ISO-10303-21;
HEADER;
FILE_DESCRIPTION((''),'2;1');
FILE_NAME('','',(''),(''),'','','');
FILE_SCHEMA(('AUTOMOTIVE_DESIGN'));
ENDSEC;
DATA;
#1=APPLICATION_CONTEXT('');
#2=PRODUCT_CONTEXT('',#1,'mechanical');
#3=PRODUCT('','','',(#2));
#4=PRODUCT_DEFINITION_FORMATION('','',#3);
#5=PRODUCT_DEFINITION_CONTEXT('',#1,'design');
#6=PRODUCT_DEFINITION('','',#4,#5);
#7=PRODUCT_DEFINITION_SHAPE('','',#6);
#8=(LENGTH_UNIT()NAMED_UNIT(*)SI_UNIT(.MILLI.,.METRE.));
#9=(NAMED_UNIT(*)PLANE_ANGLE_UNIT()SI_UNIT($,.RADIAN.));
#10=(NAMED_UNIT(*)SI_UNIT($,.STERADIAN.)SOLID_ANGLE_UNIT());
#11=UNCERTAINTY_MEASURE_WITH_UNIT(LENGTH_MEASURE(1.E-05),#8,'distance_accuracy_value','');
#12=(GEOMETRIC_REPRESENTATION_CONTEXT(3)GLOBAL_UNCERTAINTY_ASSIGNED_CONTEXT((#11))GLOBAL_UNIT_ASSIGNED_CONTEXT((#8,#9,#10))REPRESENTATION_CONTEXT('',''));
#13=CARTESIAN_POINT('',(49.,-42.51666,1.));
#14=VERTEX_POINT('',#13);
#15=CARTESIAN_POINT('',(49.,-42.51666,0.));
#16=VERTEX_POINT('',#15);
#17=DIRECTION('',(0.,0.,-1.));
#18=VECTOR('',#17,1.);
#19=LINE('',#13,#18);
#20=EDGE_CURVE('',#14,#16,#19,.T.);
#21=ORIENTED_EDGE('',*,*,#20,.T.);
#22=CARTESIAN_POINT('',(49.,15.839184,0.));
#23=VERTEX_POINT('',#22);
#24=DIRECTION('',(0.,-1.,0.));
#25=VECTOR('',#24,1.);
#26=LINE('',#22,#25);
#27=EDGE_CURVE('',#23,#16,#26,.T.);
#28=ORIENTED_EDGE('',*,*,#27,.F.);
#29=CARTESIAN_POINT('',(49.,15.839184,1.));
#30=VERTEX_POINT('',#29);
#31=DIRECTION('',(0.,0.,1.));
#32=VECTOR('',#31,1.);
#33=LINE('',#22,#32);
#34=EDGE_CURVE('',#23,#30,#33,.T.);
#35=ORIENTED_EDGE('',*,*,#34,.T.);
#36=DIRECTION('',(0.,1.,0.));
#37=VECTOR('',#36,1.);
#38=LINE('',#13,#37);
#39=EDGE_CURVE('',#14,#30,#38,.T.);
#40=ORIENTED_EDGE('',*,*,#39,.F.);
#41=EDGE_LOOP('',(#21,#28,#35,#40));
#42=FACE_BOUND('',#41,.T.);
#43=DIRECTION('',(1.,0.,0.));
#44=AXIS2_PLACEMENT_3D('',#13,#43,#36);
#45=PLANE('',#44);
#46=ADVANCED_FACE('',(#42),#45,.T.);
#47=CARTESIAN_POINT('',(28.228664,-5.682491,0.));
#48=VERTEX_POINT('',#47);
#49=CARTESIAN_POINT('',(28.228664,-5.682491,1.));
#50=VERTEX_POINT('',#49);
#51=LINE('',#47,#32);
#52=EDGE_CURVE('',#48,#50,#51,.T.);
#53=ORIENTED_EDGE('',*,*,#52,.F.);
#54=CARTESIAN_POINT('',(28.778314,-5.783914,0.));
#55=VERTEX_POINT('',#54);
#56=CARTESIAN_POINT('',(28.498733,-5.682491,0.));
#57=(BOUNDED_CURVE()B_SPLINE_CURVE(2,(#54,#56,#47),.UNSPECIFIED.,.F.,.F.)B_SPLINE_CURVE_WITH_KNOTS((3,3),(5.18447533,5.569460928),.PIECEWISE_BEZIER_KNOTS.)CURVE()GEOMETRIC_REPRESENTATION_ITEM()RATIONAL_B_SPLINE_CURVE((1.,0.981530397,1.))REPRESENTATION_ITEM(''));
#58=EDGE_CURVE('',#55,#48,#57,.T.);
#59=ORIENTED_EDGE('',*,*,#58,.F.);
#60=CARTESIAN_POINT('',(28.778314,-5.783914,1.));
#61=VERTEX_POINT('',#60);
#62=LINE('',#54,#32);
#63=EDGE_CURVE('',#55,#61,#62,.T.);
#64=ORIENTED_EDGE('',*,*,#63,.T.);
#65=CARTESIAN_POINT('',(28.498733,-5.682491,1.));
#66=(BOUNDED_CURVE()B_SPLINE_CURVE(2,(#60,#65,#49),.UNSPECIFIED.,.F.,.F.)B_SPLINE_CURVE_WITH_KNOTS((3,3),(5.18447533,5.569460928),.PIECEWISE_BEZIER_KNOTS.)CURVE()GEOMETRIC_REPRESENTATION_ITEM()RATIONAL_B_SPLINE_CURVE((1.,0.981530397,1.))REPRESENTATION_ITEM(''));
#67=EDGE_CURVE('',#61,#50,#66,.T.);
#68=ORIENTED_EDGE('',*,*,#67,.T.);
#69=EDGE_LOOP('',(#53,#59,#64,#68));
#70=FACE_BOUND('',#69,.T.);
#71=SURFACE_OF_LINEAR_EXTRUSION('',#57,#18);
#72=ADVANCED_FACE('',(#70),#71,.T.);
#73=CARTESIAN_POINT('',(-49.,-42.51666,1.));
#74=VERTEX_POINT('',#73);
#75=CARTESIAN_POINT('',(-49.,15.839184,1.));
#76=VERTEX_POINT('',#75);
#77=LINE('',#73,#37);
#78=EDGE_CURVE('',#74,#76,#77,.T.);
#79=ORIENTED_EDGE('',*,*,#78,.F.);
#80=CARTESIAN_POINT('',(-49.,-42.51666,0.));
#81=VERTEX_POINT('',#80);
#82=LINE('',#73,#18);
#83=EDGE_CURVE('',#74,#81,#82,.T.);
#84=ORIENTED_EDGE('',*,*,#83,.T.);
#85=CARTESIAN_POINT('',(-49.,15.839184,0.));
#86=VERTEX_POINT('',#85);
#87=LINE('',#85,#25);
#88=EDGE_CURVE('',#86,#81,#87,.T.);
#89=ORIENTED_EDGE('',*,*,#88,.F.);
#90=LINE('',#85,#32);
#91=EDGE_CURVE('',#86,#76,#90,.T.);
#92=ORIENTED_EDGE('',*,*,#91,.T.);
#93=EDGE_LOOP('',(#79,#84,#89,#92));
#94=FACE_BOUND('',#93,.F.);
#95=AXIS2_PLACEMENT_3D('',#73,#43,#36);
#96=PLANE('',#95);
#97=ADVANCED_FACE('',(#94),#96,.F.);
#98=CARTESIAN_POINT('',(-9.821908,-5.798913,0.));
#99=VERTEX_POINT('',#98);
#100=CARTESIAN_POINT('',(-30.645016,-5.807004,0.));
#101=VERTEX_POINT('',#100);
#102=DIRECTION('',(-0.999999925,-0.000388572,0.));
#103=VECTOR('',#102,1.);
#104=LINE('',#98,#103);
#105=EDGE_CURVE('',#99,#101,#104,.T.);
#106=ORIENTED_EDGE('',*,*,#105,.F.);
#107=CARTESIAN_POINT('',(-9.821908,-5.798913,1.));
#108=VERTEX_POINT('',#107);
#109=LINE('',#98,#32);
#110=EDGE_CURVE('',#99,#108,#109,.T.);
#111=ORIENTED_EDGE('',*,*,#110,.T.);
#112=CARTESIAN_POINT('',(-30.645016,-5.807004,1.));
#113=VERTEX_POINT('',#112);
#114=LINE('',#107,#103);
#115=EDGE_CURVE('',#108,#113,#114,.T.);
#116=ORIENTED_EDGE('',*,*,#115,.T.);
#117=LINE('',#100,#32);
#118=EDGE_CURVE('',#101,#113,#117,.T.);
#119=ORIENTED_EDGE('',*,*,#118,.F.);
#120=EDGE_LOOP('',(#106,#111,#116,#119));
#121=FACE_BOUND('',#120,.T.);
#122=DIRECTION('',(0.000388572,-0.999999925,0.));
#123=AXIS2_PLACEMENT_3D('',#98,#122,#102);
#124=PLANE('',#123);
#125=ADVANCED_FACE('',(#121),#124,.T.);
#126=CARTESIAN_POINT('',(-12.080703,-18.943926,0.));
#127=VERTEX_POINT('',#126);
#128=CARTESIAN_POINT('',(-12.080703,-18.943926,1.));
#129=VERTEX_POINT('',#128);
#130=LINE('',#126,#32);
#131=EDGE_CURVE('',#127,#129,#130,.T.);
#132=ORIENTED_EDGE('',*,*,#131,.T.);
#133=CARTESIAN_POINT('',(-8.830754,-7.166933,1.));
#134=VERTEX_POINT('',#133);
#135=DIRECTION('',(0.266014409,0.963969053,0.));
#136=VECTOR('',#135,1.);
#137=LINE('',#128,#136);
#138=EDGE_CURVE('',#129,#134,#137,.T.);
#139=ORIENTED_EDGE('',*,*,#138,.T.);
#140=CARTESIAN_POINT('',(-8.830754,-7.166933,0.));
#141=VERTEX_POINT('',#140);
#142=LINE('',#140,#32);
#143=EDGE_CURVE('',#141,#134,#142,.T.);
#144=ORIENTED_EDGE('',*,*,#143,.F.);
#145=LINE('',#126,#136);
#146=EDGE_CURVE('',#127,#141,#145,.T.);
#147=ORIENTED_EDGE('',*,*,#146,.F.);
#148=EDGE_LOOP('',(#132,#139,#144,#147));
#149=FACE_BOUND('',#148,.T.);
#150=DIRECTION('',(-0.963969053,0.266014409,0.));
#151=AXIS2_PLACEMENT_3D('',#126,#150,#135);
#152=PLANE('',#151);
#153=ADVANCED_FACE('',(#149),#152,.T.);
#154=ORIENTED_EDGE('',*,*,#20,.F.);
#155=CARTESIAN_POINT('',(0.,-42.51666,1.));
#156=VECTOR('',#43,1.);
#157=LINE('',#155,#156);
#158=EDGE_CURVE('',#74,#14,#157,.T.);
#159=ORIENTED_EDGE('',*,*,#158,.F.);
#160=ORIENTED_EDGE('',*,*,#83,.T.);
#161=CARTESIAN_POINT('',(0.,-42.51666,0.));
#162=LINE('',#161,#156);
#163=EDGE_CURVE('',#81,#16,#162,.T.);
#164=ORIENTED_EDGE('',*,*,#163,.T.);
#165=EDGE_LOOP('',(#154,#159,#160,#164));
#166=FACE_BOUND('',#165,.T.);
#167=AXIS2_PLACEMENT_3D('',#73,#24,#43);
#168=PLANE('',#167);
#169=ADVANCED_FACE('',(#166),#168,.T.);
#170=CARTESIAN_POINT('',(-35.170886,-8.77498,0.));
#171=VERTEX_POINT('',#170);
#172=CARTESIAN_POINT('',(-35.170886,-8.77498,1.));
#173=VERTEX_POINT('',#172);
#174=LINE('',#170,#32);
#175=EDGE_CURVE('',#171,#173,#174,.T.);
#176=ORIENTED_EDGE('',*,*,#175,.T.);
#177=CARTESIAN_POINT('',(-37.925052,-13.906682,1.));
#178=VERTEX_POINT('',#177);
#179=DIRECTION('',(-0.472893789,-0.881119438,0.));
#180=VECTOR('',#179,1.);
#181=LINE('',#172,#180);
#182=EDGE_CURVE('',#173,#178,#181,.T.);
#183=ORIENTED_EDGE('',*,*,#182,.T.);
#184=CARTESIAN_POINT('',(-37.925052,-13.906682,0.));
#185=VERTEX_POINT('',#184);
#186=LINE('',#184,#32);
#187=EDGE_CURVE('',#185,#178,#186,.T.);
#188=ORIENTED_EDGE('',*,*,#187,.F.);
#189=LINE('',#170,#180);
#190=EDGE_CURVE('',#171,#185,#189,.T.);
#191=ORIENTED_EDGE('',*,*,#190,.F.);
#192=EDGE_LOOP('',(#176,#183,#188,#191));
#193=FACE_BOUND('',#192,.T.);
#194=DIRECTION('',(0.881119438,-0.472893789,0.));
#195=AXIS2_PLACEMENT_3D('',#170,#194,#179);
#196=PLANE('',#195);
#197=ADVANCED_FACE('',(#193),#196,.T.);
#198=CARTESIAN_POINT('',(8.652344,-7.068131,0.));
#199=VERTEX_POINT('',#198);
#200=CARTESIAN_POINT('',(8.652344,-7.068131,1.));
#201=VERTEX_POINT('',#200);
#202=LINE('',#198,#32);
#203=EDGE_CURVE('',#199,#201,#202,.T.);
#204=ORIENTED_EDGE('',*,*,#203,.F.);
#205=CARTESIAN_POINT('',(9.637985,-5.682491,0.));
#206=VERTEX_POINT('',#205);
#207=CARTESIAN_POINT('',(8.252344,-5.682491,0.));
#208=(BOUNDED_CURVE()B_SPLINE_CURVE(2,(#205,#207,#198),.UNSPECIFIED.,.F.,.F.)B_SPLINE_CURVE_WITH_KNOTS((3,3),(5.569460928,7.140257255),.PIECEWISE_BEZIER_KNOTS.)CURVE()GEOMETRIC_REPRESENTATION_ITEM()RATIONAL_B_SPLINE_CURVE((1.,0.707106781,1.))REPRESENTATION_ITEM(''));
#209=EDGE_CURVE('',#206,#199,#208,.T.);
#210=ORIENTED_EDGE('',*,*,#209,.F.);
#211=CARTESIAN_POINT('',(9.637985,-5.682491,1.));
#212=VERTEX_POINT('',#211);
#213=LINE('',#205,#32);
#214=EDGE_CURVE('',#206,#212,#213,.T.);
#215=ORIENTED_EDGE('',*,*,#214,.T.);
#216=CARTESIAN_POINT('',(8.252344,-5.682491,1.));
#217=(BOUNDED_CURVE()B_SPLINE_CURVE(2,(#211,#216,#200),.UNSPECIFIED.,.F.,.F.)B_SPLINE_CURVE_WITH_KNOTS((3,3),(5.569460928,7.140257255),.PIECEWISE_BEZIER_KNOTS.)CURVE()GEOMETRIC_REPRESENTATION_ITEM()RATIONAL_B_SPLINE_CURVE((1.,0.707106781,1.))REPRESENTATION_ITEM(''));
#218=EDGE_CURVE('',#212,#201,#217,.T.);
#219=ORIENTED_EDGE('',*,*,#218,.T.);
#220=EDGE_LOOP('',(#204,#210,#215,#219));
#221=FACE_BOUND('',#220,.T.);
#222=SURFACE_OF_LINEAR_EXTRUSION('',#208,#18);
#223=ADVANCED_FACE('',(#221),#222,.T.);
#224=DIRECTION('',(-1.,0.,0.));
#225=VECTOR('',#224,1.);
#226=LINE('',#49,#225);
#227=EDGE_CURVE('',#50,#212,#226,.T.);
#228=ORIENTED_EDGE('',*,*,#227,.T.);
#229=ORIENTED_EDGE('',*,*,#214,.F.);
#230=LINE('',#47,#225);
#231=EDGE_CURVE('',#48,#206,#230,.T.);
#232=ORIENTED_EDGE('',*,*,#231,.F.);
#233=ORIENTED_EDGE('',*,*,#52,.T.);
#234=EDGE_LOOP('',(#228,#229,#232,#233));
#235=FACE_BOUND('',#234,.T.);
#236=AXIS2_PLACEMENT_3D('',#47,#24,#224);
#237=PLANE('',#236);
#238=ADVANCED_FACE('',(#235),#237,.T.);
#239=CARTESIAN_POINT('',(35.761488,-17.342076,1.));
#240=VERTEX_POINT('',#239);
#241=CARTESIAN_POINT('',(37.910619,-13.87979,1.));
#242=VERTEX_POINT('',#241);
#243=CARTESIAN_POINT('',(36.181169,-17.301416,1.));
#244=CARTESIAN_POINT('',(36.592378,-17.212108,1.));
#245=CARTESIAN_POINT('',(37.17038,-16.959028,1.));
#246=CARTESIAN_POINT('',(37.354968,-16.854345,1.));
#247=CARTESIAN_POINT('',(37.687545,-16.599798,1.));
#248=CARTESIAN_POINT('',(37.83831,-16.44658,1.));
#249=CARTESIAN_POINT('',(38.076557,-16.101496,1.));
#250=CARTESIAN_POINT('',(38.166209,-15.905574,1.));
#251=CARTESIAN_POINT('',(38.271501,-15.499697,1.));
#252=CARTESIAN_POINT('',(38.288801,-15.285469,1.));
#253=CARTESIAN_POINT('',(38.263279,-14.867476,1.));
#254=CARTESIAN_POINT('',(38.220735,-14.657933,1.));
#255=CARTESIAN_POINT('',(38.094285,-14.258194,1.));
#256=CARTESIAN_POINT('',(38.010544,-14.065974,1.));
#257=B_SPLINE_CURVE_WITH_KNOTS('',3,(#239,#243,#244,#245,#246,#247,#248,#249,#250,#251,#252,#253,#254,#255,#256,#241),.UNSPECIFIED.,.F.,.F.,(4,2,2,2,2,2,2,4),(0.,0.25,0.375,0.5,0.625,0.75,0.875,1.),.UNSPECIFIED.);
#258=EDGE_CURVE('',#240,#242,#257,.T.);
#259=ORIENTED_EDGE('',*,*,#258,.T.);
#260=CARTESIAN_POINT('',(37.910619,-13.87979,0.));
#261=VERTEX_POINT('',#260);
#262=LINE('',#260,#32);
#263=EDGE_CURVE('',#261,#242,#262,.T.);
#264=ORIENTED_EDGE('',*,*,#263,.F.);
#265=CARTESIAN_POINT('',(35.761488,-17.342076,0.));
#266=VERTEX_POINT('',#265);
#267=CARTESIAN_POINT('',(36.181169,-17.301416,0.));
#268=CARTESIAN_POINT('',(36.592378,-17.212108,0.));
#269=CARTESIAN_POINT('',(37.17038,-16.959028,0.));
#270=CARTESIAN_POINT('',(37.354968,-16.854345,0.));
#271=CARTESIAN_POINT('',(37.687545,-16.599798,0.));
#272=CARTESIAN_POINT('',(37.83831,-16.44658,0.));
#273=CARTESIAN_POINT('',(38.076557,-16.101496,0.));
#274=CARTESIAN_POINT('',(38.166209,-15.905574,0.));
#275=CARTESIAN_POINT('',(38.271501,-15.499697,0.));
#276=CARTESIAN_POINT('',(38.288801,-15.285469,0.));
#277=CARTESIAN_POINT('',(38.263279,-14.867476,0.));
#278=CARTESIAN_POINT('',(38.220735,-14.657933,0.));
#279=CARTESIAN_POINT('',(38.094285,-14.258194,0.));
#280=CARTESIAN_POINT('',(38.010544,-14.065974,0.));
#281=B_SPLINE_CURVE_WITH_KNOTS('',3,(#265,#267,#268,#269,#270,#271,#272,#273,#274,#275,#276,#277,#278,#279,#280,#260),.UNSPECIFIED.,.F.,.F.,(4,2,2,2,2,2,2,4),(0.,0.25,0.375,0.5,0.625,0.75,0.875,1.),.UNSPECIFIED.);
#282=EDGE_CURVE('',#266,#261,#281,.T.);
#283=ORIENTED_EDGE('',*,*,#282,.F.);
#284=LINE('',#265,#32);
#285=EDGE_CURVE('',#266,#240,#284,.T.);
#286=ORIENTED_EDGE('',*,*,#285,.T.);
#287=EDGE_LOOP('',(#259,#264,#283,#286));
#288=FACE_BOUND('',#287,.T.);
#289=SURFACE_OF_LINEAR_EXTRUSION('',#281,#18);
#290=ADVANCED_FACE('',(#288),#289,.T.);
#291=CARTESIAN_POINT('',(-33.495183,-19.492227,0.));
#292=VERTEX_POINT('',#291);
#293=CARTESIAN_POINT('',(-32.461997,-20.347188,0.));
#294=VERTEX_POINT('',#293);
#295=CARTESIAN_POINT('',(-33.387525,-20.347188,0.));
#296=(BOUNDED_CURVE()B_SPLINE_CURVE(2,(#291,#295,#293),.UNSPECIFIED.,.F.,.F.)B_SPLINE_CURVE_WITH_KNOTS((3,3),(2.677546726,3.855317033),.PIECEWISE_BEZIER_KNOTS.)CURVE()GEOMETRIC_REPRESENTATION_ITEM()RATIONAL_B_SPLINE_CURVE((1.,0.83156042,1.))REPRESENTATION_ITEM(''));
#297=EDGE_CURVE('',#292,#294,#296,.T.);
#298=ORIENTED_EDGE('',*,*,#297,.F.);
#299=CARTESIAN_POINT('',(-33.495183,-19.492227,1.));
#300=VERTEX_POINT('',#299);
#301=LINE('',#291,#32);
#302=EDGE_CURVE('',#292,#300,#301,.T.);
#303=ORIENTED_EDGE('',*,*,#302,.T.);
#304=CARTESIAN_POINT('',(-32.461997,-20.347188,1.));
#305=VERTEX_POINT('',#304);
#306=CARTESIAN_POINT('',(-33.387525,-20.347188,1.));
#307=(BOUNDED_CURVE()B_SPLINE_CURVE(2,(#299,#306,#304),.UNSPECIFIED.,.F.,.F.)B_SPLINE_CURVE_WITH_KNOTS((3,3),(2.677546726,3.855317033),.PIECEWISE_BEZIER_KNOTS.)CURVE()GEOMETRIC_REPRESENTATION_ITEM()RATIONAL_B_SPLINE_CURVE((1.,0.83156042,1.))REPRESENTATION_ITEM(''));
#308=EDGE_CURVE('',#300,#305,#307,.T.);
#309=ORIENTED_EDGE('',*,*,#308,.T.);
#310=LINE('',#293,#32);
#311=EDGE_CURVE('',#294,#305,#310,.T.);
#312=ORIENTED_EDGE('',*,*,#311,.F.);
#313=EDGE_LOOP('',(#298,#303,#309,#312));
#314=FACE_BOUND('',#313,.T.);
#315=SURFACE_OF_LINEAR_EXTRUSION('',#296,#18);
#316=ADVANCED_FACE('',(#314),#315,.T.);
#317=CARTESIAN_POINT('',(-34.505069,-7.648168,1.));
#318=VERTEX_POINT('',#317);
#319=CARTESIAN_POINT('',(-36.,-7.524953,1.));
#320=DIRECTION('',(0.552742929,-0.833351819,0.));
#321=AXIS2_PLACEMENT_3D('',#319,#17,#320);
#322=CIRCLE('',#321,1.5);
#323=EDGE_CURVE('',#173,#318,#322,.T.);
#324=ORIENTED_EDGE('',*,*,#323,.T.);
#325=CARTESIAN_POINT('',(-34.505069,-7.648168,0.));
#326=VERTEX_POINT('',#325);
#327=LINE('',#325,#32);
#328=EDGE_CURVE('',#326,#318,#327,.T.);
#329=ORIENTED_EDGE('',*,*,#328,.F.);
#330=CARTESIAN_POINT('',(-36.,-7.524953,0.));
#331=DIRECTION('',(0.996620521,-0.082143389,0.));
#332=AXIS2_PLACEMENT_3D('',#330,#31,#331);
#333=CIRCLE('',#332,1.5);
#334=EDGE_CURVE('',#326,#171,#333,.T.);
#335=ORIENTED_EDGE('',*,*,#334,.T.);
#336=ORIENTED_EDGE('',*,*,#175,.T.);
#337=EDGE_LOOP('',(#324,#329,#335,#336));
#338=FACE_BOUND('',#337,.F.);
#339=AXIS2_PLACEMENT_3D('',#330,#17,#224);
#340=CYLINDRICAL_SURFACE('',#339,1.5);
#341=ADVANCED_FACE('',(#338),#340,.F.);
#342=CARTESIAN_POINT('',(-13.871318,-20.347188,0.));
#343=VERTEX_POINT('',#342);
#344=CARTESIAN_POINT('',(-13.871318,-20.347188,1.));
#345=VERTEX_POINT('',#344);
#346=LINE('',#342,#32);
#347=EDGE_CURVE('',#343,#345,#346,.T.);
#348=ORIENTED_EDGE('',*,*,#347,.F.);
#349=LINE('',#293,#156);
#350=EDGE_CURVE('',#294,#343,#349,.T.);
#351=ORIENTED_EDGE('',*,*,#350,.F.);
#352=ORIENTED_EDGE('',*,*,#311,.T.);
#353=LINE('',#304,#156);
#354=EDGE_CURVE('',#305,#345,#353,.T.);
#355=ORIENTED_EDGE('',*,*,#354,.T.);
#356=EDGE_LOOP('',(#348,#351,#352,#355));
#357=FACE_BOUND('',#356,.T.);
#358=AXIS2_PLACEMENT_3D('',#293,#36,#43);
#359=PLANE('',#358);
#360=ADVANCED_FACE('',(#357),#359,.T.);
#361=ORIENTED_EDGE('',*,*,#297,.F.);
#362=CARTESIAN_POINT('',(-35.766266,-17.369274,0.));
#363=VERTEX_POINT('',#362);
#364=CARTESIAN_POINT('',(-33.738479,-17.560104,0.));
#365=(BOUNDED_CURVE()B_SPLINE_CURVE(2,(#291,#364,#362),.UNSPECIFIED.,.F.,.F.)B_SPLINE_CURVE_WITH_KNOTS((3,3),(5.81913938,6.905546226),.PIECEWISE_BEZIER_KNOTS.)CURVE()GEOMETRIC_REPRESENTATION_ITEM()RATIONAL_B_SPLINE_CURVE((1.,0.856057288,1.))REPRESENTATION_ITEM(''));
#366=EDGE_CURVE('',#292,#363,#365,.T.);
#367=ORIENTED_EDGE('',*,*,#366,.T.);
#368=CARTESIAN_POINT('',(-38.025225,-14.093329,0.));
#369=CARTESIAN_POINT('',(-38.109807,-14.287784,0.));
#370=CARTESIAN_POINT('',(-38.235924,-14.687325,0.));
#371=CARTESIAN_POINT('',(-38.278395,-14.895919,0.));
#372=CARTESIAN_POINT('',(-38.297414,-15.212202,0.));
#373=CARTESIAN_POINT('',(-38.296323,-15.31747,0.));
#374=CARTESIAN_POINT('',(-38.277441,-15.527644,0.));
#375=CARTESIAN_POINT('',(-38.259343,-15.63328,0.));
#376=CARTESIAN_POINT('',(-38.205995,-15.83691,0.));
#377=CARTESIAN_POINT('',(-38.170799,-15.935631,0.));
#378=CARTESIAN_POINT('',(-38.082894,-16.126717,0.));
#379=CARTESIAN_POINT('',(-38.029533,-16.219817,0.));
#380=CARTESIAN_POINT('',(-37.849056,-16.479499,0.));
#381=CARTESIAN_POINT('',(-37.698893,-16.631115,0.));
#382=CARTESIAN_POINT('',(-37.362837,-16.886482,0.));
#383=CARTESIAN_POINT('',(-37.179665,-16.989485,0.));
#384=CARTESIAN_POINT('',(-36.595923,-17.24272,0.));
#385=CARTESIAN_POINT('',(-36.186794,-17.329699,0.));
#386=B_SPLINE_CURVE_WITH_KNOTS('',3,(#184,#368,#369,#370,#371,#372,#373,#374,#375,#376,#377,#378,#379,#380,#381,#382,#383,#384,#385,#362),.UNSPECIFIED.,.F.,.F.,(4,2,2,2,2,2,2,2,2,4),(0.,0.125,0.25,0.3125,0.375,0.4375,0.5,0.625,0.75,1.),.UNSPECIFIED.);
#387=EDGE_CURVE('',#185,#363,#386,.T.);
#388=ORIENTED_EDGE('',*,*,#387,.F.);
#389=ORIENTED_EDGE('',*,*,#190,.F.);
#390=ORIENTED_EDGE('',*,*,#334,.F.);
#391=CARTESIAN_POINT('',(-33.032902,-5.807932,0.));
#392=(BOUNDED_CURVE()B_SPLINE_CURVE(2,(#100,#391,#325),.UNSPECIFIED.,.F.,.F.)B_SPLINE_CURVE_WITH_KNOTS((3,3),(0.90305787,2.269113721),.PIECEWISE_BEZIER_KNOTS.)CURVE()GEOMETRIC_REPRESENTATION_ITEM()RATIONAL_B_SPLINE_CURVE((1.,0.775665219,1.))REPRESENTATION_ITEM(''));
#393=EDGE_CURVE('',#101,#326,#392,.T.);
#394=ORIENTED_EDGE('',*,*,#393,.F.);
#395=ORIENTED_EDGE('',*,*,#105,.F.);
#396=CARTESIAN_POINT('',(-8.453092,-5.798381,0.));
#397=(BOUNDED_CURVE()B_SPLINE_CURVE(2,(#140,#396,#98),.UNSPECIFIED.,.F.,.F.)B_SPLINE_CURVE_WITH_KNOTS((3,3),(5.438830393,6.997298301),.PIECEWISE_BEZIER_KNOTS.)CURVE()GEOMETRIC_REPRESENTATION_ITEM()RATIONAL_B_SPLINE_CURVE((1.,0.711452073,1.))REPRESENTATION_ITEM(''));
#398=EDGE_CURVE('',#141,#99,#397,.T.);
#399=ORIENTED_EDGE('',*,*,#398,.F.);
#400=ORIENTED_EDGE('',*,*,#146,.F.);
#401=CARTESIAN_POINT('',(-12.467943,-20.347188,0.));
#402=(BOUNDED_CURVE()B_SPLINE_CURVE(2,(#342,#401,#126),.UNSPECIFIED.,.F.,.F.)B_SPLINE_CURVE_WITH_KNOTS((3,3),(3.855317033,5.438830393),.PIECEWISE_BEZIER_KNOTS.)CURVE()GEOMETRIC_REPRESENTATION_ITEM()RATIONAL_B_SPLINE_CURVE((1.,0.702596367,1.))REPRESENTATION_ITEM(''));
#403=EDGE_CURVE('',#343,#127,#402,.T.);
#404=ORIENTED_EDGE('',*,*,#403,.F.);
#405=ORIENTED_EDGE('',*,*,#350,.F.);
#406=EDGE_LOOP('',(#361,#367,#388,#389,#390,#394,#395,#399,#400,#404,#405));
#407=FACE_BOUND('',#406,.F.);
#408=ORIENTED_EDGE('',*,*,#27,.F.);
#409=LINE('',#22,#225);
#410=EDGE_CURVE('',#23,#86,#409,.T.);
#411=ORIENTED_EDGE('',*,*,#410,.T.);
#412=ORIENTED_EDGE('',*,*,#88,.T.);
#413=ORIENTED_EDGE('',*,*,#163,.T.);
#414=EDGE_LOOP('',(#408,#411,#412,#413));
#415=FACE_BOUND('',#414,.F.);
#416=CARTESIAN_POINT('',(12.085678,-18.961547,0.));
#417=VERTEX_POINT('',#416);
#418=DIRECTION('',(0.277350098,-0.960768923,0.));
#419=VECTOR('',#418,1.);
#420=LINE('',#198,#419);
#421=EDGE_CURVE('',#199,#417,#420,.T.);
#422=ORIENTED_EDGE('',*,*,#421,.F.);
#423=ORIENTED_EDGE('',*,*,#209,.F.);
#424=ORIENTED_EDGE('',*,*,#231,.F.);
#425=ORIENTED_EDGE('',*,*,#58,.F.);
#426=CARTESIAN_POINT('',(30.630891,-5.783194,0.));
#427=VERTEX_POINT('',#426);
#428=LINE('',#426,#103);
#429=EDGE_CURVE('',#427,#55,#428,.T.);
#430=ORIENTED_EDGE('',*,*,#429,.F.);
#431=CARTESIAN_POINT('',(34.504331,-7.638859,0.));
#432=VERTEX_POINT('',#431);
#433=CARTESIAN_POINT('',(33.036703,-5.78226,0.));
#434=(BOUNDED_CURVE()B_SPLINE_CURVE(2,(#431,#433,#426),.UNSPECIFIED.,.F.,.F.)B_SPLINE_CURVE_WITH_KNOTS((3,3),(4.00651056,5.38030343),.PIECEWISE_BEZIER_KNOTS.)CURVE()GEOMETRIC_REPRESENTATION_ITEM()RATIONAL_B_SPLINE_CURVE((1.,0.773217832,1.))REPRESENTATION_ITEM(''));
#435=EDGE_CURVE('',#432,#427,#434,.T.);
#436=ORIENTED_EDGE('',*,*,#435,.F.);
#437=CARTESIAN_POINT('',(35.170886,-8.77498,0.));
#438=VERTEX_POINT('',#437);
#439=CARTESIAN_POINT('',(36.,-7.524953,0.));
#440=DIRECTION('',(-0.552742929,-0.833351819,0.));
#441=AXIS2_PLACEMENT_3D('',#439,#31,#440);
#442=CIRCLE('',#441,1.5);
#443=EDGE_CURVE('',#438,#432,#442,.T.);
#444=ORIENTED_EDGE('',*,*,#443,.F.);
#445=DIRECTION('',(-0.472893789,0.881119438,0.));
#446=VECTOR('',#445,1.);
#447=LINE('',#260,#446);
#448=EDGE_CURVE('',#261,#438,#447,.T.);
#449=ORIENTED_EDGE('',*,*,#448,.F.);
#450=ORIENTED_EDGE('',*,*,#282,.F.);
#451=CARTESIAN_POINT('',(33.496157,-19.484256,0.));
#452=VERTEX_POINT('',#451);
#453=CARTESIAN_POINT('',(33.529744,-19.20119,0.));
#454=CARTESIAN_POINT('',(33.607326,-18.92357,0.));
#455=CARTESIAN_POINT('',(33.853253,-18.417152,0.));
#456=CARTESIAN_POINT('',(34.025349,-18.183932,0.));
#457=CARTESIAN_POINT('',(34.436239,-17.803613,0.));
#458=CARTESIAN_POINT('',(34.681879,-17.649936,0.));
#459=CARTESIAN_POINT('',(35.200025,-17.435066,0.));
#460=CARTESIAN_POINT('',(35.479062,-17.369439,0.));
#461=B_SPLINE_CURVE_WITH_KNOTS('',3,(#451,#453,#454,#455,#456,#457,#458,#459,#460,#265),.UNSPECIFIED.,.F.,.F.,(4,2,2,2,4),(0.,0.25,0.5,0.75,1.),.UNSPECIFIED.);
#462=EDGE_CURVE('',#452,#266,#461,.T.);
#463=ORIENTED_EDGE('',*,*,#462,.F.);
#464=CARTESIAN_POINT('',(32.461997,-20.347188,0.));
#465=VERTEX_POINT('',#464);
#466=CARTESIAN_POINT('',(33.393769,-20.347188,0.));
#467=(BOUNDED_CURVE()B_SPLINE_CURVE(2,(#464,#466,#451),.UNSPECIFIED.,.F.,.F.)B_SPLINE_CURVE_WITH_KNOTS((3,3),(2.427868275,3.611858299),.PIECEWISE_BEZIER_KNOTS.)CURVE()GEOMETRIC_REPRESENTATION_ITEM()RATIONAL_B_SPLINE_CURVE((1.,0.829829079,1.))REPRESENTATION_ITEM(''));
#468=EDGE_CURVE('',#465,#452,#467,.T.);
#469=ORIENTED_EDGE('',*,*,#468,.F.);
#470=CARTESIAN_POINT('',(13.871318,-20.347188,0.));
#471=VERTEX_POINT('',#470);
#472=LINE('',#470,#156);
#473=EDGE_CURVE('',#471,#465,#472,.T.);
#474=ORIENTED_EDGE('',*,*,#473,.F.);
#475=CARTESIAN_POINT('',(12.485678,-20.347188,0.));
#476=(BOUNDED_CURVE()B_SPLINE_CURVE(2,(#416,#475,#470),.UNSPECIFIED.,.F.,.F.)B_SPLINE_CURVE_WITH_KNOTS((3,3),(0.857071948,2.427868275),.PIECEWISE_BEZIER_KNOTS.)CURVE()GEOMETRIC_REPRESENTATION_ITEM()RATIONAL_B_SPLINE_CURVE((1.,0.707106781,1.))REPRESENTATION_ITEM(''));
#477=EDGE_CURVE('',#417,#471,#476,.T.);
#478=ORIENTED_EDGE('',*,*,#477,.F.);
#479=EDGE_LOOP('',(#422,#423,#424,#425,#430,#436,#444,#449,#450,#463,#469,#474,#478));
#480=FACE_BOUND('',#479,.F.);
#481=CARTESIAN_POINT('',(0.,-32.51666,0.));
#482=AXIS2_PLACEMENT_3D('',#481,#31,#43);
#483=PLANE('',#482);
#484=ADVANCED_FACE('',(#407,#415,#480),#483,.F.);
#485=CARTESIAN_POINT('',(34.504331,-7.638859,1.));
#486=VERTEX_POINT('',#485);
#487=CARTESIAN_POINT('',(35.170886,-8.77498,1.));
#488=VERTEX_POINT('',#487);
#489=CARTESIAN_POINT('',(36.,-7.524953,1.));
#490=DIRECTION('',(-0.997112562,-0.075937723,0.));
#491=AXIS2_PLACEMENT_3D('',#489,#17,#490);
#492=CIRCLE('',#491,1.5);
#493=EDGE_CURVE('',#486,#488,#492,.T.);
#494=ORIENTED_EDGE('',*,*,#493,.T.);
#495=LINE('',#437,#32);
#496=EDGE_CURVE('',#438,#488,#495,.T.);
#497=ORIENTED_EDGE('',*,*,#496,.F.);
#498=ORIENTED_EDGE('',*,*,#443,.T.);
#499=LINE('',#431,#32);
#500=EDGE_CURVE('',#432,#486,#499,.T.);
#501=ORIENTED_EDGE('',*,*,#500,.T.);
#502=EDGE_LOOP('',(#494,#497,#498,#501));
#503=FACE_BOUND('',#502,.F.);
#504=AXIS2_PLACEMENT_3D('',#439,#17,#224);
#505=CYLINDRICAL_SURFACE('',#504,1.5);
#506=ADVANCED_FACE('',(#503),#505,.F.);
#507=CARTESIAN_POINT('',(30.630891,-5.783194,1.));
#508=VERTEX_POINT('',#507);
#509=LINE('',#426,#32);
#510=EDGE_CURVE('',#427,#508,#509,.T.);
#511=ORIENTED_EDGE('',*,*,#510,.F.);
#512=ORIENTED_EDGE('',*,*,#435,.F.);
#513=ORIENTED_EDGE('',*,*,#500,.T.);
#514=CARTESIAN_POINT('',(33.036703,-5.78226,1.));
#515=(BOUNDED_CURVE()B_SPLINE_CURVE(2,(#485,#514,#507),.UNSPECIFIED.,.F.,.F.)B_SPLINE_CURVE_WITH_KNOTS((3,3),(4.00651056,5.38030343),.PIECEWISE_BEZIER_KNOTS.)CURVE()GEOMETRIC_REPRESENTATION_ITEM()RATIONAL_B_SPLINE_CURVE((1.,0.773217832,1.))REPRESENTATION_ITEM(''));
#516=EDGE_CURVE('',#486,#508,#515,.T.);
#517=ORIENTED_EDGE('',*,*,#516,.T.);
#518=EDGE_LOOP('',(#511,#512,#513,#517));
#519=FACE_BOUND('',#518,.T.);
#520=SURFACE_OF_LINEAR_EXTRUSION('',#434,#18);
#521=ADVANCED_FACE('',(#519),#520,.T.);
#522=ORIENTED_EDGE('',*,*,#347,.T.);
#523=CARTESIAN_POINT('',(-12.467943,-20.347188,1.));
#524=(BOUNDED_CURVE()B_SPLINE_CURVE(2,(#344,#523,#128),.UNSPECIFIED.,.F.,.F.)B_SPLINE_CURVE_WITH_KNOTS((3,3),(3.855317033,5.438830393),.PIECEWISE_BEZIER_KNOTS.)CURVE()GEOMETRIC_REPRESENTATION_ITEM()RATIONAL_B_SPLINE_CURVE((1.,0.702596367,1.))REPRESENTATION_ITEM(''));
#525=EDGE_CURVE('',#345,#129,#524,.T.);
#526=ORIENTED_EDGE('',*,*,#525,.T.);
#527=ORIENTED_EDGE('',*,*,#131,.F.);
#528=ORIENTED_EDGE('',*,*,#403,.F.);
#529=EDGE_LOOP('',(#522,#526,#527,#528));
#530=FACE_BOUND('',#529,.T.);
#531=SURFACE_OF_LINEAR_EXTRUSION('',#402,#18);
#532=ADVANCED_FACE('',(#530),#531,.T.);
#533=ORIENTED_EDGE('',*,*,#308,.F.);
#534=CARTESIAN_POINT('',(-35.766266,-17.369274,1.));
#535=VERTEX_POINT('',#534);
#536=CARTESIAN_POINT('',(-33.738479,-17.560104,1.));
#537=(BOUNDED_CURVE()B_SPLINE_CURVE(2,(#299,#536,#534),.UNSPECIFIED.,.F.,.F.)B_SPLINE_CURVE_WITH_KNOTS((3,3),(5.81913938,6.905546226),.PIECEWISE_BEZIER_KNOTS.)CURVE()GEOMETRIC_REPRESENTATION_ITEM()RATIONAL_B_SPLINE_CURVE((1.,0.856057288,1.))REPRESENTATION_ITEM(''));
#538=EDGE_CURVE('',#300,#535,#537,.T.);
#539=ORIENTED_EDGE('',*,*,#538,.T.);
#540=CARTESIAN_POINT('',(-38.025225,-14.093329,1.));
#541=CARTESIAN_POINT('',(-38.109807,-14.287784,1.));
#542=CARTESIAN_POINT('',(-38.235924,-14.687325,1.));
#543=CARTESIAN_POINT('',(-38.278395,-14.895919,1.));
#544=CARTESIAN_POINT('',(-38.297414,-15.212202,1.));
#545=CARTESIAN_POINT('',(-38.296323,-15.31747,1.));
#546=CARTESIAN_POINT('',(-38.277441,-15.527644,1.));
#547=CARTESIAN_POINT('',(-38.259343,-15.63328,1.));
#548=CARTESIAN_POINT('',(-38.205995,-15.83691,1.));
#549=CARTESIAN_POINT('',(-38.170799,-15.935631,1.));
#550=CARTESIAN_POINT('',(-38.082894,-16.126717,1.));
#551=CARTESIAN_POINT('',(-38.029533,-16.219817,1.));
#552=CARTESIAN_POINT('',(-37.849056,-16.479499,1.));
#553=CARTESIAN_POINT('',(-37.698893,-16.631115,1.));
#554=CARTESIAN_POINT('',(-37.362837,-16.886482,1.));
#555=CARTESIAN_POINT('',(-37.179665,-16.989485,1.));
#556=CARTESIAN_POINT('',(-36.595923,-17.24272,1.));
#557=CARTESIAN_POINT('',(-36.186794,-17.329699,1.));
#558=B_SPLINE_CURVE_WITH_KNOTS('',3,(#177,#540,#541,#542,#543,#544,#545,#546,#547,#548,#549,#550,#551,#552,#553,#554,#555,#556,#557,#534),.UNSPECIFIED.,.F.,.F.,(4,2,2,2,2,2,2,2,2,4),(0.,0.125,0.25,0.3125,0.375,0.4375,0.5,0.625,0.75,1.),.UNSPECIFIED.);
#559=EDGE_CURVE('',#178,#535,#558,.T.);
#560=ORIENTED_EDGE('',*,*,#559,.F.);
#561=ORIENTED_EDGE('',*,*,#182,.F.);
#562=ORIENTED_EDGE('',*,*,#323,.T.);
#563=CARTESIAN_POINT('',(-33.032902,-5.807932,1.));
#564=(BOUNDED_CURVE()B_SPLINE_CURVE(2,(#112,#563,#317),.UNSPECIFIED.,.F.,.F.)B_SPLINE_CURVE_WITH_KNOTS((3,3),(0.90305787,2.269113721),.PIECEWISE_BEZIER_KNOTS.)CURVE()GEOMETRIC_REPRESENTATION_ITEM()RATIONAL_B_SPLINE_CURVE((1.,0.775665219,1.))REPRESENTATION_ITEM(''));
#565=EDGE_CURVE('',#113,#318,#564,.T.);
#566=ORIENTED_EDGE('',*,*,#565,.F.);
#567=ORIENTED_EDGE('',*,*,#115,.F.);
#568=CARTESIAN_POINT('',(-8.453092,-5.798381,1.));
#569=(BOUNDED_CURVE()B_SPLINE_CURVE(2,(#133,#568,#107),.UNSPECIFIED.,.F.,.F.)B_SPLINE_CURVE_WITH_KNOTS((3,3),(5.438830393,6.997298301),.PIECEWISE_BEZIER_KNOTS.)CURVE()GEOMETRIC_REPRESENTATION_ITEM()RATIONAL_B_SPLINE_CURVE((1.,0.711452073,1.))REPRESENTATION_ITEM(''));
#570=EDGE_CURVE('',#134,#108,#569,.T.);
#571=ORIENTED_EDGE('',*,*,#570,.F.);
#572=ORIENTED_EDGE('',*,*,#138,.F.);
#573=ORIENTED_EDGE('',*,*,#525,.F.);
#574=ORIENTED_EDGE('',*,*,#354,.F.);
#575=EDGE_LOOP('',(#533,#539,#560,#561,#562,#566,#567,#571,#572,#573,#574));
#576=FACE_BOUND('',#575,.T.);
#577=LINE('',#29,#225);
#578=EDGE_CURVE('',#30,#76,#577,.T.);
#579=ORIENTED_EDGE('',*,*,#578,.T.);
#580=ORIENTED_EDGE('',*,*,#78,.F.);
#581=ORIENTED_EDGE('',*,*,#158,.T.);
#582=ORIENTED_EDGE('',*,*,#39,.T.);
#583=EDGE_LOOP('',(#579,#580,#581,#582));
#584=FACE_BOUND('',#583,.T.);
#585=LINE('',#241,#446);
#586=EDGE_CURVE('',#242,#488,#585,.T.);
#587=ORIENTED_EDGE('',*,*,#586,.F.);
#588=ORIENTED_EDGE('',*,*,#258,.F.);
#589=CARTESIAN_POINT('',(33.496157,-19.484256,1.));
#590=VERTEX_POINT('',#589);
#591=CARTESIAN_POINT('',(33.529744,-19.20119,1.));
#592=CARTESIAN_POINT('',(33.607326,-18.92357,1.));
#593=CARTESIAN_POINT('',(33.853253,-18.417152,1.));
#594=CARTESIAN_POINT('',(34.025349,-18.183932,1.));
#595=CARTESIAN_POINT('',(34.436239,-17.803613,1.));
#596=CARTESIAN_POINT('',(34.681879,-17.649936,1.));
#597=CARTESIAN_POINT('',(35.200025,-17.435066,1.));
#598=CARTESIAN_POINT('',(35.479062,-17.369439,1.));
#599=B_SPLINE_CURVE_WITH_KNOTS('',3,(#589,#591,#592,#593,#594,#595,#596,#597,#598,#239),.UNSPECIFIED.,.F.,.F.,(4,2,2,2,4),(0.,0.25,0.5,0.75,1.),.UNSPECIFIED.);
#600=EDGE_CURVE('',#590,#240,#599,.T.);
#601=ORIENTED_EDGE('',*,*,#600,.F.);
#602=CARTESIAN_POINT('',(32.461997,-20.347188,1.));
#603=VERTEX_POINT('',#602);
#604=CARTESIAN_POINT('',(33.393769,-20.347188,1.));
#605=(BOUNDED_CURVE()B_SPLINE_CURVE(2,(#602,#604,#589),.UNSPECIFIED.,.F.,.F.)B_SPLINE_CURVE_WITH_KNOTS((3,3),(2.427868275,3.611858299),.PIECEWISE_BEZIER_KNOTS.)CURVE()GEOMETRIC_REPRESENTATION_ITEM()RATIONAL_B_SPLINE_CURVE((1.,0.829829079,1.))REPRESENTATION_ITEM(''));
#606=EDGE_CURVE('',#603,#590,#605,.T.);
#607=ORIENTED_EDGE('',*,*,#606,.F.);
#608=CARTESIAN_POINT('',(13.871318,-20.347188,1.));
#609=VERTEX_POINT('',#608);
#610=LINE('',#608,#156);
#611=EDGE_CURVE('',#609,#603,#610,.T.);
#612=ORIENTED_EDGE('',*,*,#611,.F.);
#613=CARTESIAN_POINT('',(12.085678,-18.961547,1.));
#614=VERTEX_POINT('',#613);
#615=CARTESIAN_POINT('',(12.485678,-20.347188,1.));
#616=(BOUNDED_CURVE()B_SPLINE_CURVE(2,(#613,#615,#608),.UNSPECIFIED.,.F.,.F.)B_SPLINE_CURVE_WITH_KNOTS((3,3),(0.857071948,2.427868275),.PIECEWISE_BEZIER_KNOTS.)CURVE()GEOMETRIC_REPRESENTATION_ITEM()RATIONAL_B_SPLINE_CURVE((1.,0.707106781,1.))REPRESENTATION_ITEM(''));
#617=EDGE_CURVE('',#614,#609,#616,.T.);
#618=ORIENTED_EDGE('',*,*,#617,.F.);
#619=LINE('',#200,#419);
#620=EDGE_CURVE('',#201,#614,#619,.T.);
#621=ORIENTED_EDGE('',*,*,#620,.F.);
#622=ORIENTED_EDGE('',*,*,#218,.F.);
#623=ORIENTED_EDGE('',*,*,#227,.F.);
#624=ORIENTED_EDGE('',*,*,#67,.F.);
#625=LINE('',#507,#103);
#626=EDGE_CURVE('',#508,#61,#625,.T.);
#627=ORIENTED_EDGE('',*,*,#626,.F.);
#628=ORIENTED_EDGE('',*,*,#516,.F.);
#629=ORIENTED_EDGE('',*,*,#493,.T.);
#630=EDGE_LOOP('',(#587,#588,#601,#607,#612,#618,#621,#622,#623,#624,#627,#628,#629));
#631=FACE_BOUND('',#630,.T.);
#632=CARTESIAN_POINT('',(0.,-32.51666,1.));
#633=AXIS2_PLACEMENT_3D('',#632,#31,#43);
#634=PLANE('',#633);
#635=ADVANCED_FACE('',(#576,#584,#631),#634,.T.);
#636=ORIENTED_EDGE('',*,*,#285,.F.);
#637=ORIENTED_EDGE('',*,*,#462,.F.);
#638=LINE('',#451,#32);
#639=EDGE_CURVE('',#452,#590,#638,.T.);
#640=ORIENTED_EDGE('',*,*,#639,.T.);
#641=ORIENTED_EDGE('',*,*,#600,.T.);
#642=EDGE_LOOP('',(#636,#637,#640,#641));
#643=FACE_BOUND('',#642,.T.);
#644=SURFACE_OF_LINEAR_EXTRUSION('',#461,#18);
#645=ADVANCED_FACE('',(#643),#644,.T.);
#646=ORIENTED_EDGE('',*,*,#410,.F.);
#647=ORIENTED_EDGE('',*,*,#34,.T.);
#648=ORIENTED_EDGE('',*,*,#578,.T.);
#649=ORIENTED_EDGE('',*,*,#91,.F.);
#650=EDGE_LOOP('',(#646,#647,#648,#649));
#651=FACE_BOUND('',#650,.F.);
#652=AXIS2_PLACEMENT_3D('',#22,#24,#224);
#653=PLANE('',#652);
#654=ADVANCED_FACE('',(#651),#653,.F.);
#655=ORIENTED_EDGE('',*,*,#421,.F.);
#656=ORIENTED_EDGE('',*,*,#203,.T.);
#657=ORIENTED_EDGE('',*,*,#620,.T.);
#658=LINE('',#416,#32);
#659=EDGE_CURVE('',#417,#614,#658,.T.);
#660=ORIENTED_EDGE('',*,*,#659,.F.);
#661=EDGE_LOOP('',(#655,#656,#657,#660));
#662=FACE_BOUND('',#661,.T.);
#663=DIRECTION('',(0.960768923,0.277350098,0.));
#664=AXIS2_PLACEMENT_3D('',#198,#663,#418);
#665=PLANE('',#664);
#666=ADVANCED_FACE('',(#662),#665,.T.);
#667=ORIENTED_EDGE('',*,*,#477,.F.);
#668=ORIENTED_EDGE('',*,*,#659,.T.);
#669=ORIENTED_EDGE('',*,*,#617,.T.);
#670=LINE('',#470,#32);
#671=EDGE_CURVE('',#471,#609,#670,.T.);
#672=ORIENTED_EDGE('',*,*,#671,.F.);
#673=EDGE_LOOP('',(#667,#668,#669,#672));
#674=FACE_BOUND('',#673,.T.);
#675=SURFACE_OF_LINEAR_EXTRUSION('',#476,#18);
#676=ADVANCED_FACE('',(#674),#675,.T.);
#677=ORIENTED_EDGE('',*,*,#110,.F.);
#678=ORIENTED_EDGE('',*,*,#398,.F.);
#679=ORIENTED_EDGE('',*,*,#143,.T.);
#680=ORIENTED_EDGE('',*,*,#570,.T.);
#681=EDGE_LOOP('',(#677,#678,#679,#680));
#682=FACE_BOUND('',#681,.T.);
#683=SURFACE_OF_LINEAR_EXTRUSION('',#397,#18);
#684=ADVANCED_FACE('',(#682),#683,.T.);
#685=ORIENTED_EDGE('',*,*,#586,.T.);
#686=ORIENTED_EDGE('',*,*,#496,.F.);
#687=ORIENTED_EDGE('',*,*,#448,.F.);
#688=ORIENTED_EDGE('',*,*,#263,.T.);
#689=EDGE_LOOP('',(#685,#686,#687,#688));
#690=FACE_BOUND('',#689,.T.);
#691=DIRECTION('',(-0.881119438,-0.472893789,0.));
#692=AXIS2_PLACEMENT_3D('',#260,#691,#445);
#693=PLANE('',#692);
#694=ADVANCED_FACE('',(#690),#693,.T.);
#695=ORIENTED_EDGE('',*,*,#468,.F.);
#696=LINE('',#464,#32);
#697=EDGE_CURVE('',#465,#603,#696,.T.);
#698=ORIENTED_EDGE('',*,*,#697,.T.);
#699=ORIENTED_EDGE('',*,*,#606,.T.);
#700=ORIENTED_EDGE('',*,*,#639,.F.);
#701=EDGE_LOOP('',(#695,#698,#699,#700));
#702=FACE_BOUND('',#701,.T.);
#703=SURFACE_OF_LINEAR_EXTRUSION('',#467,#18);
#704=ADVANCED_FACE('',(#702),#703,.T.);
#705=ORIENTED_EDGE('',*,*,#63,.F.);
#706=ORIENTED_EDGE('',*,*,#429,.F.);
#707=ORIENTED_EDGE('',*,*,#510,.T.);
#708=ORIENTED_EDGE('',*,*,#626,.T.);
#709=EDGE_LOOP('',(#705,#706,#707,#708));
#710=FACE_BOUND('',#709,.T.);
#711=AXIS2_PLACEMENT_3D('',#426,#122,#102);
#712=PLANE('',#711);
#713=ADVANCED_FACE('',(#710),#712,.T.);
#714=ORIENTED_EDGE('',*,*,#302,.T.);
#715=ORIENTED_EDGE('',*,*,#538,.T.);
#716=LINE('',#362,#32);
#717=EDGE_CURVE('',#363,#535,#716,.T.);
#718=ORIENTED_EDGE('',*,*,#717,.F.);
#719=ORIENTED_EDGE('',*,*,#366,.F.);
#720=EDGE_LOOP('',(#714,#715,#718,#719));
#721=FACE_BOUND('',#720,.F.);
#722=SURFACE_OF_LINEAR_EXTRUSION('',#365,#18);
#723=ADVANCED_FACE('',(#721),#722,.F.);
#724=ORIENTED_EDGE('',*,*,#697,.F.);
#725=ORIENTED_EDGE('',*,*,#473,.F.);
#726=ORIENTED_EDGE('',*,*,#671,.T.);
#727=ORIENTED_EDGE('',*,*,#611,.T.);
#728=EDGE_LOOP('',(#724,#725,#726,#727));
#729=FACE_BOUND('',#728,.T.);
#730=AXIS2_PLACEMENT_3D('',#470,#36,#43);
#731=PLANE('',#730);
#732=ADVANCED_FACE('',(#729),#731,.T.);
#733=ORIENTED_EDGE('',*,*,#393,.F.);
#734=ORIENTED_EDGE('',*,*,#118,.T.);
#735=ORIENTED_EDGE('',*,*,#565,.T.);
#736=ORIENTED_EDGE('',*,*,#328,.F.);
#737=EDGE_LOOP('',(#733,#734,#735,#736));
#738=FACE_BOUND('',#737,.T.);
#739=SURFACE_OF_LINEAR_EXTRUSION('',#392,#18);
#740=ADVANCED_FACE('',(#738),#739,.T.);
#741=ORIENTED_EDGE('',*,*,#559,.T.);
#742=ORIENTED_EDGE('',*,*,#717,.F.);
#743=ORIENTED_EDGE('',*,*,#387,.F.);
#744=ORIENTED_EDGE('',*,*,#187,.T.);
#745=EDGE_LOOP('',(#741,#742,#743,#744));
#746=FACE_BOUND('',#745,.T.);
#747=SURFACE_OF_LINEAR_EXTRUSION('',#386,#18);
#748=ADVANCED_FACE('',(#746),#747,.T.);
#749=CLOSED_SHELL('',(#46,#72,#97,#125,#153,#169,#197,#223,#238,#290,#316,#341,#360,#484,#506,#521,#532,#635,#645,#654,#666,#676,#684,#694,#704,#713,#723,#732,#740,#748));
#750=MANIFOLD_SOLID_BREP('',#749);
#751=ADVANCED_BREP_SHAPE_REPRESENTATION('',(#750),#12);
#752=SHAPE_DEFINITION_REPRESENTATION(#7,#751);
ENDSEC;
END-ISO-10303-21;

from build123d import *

# Parameters (mm, degrees)
EXTRUDE_1_DEPTH     = 1
CUT_EXTRUDE_4_DEPTH = 54.935146241
SKETCH_4_R          = 1.5
CUT_EXTRUDE_5_DEPTH = 54.935146241
CUT_EXTRUDE1_START  = -1
CUT_EXTRUDE1_DEPTH  = 1
SKETCH4_W           = 98
SKETCH4_H           = 20
BOSS_EXTRUDE1_DEPTH = 1


with BuildPart() as part:
    # Эскиз1 → Бобышка-Вытянуть1 (new body)
    with BuildSketch(Plane.XY):
        Polygon((-49, 5.839183832), (-49, -22.516660498), (49, -22.516660498), (49, 5.839183832), (49, 15.839183832), (-49, 15.839183832), align=None)
    extrude(amount=EXTRUDE_1_DEPTH)

    # Эскиз2 → Вырез-Вытянуть4 (cut, through all)
    with BuildSketch(Plane(origin=(0, 0, 0), x_dir=(-1, 0, 0), z_dir=(0, 0, -1))):
        with BuildLine():
            Line((27.226146034, -9.122134253), (15.739905482, -9.122134253))
            ThreePointArc((15.739905482, -9.122134253), (15.10500819, -9.461530461), (14.917793913, -10.156681647))
            Line((14.917793913, -10.156681647), (17.442090319, -18.930924047))
            ThreePointArc((17.442090319, -18.930924047), (18.050493328, -19.909298147), (19.122649731, -20.331021695))
            Line((19.122649731, -20.331021695), (30.826843589, -20.331021695))
            ThreePointArc((30.826843589, -20.331021695), (31.459345435, -19.990005133), (31.64325008, -19.295361367))
            Line((31.64325008, -19.295361367), (29.100959308, -10.488607797))
            ThreePointArc((29.100959308, -10.488607797), (28.40806584, -9.469896887), (27.226146034, -9.122134253))
        make_face()
        with BuildLine():
            Line((-31.64325008, -19.295361367), (-29.100959308, -10.488607797))
            ThreePointArc((-29.100959308, -10.488607797), (-28.40806584, -9.469896887), (-27.226146034, -9.122134253))
            Line((-27.226146034, -9.122134253), (-15.739905482, -9.122134253))
            ThreePointArc((-15.739905482, -9.122134253), (-15.10500819, -9.461530461), (-14.917793913, -10.156681647))
            Line((-14.917793913, -10.156681647), (-17.442090319, -18.930924047))
            ThreePointArc((-17.442090319, -18.930924047), (-18.050493328, -19.909298147), (-19.122649731, -20.331021695))
            Line((-19.122649731, -20.331021695), (-30.826843589, -20.331021695))
            ThreePointArc((-30.826843589, -20.331021695), (-31.459345435, -19.990005133), (-31.64325008, -19.295361367))
        make_face()
    extrude(amount=-CUT_EXTRUDE_4_DEPTH, mode=Mode.SUBTRACT)

    # Эскиз4 → Вырез-Вытянуть5 (cut, through all)
    with BuildSketch(Plane(origin=(0, 0, 0), x_dir=(-1, 0, 0), z_dir=(0, 0, -1))):
        with Locations((36, -7.524952718)):
            Circle(SKETCH_4_R)
        with Locations((-36, -7.524952718)):
            Circle(SKETCH_4_R)
    extrude(amount=-CUT_EXTRUDE_5_DEPTH, mode=Mode.SUBTRACT)

    # Sketch3 → Cut-Extrude1 (cut)
    with BuildSketch(Plane.XY.offset(1).offset(CUT_EXTRUDE1_START)):
        with BuildLine():
            Line((8.652344227, -7.068131311), (12.085677561, -18.961546856))
            add(Edge.make_bspline(
                [(12.085677561, -18.961546856), (12.485677561, -20.347187502), (13.871318207, -20.347187502)],
                knots=[0.857071948, 0.857071948, 0.857071948, 2.427868275, 2.427868275, 2.427868275], degree=2, weights=[1, 0.707106781, 1]))
            Line((13.871318207, -20.347187502), (32.461996875, -20.347187502))
            add(Edge.make_bspline(
                [(32.461996875, -20.347187502), (33.393769403, -20.347187502), (33.496157418, -19.484255682)],
                knots=[2.427868275, 2.427868275, 2.427868275, 3.611858299, 3.611858299, 3.611858299], degree=2, weights=[1, 0.829829079, 1]))
            add(Edge.make_bspline(
                [(33.496157418, -19.484255682), (33.529743577, -19.201189685), (33.607326061, -18.923570429), (33.853252735, -18.417152493), (34.025349409, -18.183932413), (34.436238564, -17.8036127), (34.681879478, -17.649935655), (35.200024528, -17.435065661), (35.479061866, -17.369439067), (35.76148791, -17.34207634)],
                knots=[0, 0, 0, 0, 0.25, 0.25, 0.5, 0.5, 0.75, 0.75, 1, 1, 1, 1], degree=3))
            add(Edge.make_bspline(
                [(35.76148791, -17.34207634), (36.181169226, -17.301415694), (36.592378309, -17.212108423), (37.170380488, -16.959028015), (37.354968395, -16.854344533), (37.687544868, -16.599797528), (37.83830967, -16.446579579), (38.076557482, -16.101495837), (38.166209489, -15.905573827), (38.271501218, -15.499696694), (38.288800836, -15.285469364), (38.263278752, -14.867475934), (38.220734772, -14.657932914), (38.094284502, -14.258193956), (38.010543981, -14.065974434), (37.910619322, -13.879789794)],
                knots=[0, 0, 0, 0, 0.25, 0.25, 0.375, 0.375, 0.5, 0.5, 0.625, 0.625, 0.75, 0.75, 0.875, 0.875, 1, 1, 1, 1], degree=3))
            Line((37.910619322, -13.879789794), (35.170885606, -8.774980446))
            ThreePointArc((35.170885606, -8.774980446), (34.803783463, -8.429975368), (34.571610551, -7.982886756))
            ThreePointArc((34.571610551, -7.982886756), (34.527886571, -7.812845152), (34.504331156, -7.638859302))
            add(Edge.make_bspline(
                [(34.504331156, -7.638859302), (33.03670289, -5.782259548), (30.630891119, -5.783194379)],
                knots=[4.00651056, 4.00651056, 4.00651056, 5.38030343, 5.38030343, 5.38030343], degree=2, weights=[1, 0.773217832, 1]))
            Line((30.630891119, -5.783194379), (28.778313515, -5.783914238))
            add(Edge.make_bspline(
                [(28.778313515, -5.783914238), (28.498733332, -5.682490665), (28.228663541, -5.682490665)],
                knots=[5.18447533, 5.18447533, 5.18447533, 5.569460928, 5.569460928, 5.569460928], degree=2, weights=[1, 0.981530397, 1]))
            Line((28.228663541, -5.682490665), (9.637984874, -5.682490665))
            add(Edge.make_bspline(
                [(9.637984874, -5.682490665), (8.252344227, -5.682490665), (8.652344227, -7.068131311)],
                knots=[5.569460928, 5.569460928, 5.569460928, 7.140257255, 7.140257255, 7.140257255], degree=2, weights=[1, 0.707106781, 1]))
        make_face()
        with BuildLine():
            Line((-35.170885606, -8.774980446), (-37.925052204, -13.906681863))
            add(Edge.make_bspline(
                [(-37.925052204, -13.906681863), (-38.025225081, -14.093328995), (-38.109806595, -14.28778394), (-38.235924368, -14.687324932), (-38.278394681, -14.895918794), (-38.297414091, -15.212202185), (-38.296322734, -15.317469634), (-38.277441195, -15.527644209), (-38.259343447, -15.633280004), (-38.205994928, -15.836909506), (-38.170798519, -15.935630825), (-38.082894213, -16.126717018), (-38.029532599, -16.219817403), (-37.849055501, -16.479499021), (-37.698892817, -16.631115336), (-37.362837335, -16.886481906), (-37.179664999, -16.989484869), (-36.595923377, -17.242719775), (-36.186794345, -17.329699001), (-35.766265682, -17.369273893)],
                knots=[0, 0, 0, 0, 0.125, 0.125, 0.25, 0.25, 0.3125, 0.3125, 0.375, 0.375, 0.4375, 0.4375, 0.5, 0.5, 0.625, 0.625, 0.75, 0.75, 1, 1, 1, 1], degree=3))
            add(Edge.make_bspline(
                [(-33.495182661, -19.492227082), (-33.738478544, -17.560103824), (-35.766265682, -17.369273893)],
                knots=[5.81913938, 5.81913938, 5.81913938, 6.905546226, 6.905546226, 6.905546226], degree=2, weights=[1, 0.856057288, 1]))
            add(Edge.make_bspline(
                [(-33.495182661, -19.492227082), (-33.387524752, -20.347187502), (-32.461996875, -20.347187502)],
                knots=[2.677546726, 2.677546726, 2.677546726, 3.855317033, 3.855317033, 3.855317033], degree=2, weights=[1, 0.83156042, 1]))
            Line((-32.461996875, -20.347187502), (-13.871318207, -20.347187502))
            add(Edge.make_bspline(
                [(-13.871318207, -20.347187502), (-12.46794332, -20.347187502), (-12.080702928, -18.943926093)],
                knots=[3.855317033, 3.855317033, 3.855317033, 5.438830393, 5.438830393, 5.438830393], degree=2, weights=[1, 0.702596367, 1]))
            Line((-12.080702928, -18.943926093), (-8.83075434, -7.166932971))
            add(Edge.make_bspline(
                [(-8.83075434, -7.166932971), (-8.45309236, -5.798381309), (-9.82190813, -5.798913193)],
                knots=[5.438830393, 5.438830393, 5.438830393, 6.997298301, 6.997298301, 6.997298301], degree=2, weights=[1, 0.711452073, 1]))
            Line((-9.82190813, -5.798913193), (-30.645016113, -5.807004464))
            add(Edge.make_bspline(
                [(-30.645016113, -5.807004464), (-33.032902471, -5.807932329), (-34.505069218, -7.648167801)],
                knots=[0.90305787, 0.90305787, 0.90305787, 2.269113721, 2.269113721, 2.269113721], degree=2, weights=[1, 0.775665219, 1]))
            ThreePointArc((-34.505069218, -7.648167801), (-34.53118454, -7.829224215), (-34.579145022, -8.005755309))
            ThreePointArc((-34.579145022, -8.005755309), (-34.811085633, -8.43954696), (-35.170885606, -8.774980446))
        make_face()
    extrude(amount=CUT_EXTRUDE1_DEPTH, mode=Mode.SUBTRACT)

    # Sketch4 → Boss-Extrude1 (add)
    with BuildSketch(Plane.XY.offset(1)):
        with Locations((0, -32.516660498)):
            Rectangle(SKETCH4_W, SKETCH4_H)
    extrude(amount=-BOSS_EXTRUDE1_DEPTH)


solid = part.part
